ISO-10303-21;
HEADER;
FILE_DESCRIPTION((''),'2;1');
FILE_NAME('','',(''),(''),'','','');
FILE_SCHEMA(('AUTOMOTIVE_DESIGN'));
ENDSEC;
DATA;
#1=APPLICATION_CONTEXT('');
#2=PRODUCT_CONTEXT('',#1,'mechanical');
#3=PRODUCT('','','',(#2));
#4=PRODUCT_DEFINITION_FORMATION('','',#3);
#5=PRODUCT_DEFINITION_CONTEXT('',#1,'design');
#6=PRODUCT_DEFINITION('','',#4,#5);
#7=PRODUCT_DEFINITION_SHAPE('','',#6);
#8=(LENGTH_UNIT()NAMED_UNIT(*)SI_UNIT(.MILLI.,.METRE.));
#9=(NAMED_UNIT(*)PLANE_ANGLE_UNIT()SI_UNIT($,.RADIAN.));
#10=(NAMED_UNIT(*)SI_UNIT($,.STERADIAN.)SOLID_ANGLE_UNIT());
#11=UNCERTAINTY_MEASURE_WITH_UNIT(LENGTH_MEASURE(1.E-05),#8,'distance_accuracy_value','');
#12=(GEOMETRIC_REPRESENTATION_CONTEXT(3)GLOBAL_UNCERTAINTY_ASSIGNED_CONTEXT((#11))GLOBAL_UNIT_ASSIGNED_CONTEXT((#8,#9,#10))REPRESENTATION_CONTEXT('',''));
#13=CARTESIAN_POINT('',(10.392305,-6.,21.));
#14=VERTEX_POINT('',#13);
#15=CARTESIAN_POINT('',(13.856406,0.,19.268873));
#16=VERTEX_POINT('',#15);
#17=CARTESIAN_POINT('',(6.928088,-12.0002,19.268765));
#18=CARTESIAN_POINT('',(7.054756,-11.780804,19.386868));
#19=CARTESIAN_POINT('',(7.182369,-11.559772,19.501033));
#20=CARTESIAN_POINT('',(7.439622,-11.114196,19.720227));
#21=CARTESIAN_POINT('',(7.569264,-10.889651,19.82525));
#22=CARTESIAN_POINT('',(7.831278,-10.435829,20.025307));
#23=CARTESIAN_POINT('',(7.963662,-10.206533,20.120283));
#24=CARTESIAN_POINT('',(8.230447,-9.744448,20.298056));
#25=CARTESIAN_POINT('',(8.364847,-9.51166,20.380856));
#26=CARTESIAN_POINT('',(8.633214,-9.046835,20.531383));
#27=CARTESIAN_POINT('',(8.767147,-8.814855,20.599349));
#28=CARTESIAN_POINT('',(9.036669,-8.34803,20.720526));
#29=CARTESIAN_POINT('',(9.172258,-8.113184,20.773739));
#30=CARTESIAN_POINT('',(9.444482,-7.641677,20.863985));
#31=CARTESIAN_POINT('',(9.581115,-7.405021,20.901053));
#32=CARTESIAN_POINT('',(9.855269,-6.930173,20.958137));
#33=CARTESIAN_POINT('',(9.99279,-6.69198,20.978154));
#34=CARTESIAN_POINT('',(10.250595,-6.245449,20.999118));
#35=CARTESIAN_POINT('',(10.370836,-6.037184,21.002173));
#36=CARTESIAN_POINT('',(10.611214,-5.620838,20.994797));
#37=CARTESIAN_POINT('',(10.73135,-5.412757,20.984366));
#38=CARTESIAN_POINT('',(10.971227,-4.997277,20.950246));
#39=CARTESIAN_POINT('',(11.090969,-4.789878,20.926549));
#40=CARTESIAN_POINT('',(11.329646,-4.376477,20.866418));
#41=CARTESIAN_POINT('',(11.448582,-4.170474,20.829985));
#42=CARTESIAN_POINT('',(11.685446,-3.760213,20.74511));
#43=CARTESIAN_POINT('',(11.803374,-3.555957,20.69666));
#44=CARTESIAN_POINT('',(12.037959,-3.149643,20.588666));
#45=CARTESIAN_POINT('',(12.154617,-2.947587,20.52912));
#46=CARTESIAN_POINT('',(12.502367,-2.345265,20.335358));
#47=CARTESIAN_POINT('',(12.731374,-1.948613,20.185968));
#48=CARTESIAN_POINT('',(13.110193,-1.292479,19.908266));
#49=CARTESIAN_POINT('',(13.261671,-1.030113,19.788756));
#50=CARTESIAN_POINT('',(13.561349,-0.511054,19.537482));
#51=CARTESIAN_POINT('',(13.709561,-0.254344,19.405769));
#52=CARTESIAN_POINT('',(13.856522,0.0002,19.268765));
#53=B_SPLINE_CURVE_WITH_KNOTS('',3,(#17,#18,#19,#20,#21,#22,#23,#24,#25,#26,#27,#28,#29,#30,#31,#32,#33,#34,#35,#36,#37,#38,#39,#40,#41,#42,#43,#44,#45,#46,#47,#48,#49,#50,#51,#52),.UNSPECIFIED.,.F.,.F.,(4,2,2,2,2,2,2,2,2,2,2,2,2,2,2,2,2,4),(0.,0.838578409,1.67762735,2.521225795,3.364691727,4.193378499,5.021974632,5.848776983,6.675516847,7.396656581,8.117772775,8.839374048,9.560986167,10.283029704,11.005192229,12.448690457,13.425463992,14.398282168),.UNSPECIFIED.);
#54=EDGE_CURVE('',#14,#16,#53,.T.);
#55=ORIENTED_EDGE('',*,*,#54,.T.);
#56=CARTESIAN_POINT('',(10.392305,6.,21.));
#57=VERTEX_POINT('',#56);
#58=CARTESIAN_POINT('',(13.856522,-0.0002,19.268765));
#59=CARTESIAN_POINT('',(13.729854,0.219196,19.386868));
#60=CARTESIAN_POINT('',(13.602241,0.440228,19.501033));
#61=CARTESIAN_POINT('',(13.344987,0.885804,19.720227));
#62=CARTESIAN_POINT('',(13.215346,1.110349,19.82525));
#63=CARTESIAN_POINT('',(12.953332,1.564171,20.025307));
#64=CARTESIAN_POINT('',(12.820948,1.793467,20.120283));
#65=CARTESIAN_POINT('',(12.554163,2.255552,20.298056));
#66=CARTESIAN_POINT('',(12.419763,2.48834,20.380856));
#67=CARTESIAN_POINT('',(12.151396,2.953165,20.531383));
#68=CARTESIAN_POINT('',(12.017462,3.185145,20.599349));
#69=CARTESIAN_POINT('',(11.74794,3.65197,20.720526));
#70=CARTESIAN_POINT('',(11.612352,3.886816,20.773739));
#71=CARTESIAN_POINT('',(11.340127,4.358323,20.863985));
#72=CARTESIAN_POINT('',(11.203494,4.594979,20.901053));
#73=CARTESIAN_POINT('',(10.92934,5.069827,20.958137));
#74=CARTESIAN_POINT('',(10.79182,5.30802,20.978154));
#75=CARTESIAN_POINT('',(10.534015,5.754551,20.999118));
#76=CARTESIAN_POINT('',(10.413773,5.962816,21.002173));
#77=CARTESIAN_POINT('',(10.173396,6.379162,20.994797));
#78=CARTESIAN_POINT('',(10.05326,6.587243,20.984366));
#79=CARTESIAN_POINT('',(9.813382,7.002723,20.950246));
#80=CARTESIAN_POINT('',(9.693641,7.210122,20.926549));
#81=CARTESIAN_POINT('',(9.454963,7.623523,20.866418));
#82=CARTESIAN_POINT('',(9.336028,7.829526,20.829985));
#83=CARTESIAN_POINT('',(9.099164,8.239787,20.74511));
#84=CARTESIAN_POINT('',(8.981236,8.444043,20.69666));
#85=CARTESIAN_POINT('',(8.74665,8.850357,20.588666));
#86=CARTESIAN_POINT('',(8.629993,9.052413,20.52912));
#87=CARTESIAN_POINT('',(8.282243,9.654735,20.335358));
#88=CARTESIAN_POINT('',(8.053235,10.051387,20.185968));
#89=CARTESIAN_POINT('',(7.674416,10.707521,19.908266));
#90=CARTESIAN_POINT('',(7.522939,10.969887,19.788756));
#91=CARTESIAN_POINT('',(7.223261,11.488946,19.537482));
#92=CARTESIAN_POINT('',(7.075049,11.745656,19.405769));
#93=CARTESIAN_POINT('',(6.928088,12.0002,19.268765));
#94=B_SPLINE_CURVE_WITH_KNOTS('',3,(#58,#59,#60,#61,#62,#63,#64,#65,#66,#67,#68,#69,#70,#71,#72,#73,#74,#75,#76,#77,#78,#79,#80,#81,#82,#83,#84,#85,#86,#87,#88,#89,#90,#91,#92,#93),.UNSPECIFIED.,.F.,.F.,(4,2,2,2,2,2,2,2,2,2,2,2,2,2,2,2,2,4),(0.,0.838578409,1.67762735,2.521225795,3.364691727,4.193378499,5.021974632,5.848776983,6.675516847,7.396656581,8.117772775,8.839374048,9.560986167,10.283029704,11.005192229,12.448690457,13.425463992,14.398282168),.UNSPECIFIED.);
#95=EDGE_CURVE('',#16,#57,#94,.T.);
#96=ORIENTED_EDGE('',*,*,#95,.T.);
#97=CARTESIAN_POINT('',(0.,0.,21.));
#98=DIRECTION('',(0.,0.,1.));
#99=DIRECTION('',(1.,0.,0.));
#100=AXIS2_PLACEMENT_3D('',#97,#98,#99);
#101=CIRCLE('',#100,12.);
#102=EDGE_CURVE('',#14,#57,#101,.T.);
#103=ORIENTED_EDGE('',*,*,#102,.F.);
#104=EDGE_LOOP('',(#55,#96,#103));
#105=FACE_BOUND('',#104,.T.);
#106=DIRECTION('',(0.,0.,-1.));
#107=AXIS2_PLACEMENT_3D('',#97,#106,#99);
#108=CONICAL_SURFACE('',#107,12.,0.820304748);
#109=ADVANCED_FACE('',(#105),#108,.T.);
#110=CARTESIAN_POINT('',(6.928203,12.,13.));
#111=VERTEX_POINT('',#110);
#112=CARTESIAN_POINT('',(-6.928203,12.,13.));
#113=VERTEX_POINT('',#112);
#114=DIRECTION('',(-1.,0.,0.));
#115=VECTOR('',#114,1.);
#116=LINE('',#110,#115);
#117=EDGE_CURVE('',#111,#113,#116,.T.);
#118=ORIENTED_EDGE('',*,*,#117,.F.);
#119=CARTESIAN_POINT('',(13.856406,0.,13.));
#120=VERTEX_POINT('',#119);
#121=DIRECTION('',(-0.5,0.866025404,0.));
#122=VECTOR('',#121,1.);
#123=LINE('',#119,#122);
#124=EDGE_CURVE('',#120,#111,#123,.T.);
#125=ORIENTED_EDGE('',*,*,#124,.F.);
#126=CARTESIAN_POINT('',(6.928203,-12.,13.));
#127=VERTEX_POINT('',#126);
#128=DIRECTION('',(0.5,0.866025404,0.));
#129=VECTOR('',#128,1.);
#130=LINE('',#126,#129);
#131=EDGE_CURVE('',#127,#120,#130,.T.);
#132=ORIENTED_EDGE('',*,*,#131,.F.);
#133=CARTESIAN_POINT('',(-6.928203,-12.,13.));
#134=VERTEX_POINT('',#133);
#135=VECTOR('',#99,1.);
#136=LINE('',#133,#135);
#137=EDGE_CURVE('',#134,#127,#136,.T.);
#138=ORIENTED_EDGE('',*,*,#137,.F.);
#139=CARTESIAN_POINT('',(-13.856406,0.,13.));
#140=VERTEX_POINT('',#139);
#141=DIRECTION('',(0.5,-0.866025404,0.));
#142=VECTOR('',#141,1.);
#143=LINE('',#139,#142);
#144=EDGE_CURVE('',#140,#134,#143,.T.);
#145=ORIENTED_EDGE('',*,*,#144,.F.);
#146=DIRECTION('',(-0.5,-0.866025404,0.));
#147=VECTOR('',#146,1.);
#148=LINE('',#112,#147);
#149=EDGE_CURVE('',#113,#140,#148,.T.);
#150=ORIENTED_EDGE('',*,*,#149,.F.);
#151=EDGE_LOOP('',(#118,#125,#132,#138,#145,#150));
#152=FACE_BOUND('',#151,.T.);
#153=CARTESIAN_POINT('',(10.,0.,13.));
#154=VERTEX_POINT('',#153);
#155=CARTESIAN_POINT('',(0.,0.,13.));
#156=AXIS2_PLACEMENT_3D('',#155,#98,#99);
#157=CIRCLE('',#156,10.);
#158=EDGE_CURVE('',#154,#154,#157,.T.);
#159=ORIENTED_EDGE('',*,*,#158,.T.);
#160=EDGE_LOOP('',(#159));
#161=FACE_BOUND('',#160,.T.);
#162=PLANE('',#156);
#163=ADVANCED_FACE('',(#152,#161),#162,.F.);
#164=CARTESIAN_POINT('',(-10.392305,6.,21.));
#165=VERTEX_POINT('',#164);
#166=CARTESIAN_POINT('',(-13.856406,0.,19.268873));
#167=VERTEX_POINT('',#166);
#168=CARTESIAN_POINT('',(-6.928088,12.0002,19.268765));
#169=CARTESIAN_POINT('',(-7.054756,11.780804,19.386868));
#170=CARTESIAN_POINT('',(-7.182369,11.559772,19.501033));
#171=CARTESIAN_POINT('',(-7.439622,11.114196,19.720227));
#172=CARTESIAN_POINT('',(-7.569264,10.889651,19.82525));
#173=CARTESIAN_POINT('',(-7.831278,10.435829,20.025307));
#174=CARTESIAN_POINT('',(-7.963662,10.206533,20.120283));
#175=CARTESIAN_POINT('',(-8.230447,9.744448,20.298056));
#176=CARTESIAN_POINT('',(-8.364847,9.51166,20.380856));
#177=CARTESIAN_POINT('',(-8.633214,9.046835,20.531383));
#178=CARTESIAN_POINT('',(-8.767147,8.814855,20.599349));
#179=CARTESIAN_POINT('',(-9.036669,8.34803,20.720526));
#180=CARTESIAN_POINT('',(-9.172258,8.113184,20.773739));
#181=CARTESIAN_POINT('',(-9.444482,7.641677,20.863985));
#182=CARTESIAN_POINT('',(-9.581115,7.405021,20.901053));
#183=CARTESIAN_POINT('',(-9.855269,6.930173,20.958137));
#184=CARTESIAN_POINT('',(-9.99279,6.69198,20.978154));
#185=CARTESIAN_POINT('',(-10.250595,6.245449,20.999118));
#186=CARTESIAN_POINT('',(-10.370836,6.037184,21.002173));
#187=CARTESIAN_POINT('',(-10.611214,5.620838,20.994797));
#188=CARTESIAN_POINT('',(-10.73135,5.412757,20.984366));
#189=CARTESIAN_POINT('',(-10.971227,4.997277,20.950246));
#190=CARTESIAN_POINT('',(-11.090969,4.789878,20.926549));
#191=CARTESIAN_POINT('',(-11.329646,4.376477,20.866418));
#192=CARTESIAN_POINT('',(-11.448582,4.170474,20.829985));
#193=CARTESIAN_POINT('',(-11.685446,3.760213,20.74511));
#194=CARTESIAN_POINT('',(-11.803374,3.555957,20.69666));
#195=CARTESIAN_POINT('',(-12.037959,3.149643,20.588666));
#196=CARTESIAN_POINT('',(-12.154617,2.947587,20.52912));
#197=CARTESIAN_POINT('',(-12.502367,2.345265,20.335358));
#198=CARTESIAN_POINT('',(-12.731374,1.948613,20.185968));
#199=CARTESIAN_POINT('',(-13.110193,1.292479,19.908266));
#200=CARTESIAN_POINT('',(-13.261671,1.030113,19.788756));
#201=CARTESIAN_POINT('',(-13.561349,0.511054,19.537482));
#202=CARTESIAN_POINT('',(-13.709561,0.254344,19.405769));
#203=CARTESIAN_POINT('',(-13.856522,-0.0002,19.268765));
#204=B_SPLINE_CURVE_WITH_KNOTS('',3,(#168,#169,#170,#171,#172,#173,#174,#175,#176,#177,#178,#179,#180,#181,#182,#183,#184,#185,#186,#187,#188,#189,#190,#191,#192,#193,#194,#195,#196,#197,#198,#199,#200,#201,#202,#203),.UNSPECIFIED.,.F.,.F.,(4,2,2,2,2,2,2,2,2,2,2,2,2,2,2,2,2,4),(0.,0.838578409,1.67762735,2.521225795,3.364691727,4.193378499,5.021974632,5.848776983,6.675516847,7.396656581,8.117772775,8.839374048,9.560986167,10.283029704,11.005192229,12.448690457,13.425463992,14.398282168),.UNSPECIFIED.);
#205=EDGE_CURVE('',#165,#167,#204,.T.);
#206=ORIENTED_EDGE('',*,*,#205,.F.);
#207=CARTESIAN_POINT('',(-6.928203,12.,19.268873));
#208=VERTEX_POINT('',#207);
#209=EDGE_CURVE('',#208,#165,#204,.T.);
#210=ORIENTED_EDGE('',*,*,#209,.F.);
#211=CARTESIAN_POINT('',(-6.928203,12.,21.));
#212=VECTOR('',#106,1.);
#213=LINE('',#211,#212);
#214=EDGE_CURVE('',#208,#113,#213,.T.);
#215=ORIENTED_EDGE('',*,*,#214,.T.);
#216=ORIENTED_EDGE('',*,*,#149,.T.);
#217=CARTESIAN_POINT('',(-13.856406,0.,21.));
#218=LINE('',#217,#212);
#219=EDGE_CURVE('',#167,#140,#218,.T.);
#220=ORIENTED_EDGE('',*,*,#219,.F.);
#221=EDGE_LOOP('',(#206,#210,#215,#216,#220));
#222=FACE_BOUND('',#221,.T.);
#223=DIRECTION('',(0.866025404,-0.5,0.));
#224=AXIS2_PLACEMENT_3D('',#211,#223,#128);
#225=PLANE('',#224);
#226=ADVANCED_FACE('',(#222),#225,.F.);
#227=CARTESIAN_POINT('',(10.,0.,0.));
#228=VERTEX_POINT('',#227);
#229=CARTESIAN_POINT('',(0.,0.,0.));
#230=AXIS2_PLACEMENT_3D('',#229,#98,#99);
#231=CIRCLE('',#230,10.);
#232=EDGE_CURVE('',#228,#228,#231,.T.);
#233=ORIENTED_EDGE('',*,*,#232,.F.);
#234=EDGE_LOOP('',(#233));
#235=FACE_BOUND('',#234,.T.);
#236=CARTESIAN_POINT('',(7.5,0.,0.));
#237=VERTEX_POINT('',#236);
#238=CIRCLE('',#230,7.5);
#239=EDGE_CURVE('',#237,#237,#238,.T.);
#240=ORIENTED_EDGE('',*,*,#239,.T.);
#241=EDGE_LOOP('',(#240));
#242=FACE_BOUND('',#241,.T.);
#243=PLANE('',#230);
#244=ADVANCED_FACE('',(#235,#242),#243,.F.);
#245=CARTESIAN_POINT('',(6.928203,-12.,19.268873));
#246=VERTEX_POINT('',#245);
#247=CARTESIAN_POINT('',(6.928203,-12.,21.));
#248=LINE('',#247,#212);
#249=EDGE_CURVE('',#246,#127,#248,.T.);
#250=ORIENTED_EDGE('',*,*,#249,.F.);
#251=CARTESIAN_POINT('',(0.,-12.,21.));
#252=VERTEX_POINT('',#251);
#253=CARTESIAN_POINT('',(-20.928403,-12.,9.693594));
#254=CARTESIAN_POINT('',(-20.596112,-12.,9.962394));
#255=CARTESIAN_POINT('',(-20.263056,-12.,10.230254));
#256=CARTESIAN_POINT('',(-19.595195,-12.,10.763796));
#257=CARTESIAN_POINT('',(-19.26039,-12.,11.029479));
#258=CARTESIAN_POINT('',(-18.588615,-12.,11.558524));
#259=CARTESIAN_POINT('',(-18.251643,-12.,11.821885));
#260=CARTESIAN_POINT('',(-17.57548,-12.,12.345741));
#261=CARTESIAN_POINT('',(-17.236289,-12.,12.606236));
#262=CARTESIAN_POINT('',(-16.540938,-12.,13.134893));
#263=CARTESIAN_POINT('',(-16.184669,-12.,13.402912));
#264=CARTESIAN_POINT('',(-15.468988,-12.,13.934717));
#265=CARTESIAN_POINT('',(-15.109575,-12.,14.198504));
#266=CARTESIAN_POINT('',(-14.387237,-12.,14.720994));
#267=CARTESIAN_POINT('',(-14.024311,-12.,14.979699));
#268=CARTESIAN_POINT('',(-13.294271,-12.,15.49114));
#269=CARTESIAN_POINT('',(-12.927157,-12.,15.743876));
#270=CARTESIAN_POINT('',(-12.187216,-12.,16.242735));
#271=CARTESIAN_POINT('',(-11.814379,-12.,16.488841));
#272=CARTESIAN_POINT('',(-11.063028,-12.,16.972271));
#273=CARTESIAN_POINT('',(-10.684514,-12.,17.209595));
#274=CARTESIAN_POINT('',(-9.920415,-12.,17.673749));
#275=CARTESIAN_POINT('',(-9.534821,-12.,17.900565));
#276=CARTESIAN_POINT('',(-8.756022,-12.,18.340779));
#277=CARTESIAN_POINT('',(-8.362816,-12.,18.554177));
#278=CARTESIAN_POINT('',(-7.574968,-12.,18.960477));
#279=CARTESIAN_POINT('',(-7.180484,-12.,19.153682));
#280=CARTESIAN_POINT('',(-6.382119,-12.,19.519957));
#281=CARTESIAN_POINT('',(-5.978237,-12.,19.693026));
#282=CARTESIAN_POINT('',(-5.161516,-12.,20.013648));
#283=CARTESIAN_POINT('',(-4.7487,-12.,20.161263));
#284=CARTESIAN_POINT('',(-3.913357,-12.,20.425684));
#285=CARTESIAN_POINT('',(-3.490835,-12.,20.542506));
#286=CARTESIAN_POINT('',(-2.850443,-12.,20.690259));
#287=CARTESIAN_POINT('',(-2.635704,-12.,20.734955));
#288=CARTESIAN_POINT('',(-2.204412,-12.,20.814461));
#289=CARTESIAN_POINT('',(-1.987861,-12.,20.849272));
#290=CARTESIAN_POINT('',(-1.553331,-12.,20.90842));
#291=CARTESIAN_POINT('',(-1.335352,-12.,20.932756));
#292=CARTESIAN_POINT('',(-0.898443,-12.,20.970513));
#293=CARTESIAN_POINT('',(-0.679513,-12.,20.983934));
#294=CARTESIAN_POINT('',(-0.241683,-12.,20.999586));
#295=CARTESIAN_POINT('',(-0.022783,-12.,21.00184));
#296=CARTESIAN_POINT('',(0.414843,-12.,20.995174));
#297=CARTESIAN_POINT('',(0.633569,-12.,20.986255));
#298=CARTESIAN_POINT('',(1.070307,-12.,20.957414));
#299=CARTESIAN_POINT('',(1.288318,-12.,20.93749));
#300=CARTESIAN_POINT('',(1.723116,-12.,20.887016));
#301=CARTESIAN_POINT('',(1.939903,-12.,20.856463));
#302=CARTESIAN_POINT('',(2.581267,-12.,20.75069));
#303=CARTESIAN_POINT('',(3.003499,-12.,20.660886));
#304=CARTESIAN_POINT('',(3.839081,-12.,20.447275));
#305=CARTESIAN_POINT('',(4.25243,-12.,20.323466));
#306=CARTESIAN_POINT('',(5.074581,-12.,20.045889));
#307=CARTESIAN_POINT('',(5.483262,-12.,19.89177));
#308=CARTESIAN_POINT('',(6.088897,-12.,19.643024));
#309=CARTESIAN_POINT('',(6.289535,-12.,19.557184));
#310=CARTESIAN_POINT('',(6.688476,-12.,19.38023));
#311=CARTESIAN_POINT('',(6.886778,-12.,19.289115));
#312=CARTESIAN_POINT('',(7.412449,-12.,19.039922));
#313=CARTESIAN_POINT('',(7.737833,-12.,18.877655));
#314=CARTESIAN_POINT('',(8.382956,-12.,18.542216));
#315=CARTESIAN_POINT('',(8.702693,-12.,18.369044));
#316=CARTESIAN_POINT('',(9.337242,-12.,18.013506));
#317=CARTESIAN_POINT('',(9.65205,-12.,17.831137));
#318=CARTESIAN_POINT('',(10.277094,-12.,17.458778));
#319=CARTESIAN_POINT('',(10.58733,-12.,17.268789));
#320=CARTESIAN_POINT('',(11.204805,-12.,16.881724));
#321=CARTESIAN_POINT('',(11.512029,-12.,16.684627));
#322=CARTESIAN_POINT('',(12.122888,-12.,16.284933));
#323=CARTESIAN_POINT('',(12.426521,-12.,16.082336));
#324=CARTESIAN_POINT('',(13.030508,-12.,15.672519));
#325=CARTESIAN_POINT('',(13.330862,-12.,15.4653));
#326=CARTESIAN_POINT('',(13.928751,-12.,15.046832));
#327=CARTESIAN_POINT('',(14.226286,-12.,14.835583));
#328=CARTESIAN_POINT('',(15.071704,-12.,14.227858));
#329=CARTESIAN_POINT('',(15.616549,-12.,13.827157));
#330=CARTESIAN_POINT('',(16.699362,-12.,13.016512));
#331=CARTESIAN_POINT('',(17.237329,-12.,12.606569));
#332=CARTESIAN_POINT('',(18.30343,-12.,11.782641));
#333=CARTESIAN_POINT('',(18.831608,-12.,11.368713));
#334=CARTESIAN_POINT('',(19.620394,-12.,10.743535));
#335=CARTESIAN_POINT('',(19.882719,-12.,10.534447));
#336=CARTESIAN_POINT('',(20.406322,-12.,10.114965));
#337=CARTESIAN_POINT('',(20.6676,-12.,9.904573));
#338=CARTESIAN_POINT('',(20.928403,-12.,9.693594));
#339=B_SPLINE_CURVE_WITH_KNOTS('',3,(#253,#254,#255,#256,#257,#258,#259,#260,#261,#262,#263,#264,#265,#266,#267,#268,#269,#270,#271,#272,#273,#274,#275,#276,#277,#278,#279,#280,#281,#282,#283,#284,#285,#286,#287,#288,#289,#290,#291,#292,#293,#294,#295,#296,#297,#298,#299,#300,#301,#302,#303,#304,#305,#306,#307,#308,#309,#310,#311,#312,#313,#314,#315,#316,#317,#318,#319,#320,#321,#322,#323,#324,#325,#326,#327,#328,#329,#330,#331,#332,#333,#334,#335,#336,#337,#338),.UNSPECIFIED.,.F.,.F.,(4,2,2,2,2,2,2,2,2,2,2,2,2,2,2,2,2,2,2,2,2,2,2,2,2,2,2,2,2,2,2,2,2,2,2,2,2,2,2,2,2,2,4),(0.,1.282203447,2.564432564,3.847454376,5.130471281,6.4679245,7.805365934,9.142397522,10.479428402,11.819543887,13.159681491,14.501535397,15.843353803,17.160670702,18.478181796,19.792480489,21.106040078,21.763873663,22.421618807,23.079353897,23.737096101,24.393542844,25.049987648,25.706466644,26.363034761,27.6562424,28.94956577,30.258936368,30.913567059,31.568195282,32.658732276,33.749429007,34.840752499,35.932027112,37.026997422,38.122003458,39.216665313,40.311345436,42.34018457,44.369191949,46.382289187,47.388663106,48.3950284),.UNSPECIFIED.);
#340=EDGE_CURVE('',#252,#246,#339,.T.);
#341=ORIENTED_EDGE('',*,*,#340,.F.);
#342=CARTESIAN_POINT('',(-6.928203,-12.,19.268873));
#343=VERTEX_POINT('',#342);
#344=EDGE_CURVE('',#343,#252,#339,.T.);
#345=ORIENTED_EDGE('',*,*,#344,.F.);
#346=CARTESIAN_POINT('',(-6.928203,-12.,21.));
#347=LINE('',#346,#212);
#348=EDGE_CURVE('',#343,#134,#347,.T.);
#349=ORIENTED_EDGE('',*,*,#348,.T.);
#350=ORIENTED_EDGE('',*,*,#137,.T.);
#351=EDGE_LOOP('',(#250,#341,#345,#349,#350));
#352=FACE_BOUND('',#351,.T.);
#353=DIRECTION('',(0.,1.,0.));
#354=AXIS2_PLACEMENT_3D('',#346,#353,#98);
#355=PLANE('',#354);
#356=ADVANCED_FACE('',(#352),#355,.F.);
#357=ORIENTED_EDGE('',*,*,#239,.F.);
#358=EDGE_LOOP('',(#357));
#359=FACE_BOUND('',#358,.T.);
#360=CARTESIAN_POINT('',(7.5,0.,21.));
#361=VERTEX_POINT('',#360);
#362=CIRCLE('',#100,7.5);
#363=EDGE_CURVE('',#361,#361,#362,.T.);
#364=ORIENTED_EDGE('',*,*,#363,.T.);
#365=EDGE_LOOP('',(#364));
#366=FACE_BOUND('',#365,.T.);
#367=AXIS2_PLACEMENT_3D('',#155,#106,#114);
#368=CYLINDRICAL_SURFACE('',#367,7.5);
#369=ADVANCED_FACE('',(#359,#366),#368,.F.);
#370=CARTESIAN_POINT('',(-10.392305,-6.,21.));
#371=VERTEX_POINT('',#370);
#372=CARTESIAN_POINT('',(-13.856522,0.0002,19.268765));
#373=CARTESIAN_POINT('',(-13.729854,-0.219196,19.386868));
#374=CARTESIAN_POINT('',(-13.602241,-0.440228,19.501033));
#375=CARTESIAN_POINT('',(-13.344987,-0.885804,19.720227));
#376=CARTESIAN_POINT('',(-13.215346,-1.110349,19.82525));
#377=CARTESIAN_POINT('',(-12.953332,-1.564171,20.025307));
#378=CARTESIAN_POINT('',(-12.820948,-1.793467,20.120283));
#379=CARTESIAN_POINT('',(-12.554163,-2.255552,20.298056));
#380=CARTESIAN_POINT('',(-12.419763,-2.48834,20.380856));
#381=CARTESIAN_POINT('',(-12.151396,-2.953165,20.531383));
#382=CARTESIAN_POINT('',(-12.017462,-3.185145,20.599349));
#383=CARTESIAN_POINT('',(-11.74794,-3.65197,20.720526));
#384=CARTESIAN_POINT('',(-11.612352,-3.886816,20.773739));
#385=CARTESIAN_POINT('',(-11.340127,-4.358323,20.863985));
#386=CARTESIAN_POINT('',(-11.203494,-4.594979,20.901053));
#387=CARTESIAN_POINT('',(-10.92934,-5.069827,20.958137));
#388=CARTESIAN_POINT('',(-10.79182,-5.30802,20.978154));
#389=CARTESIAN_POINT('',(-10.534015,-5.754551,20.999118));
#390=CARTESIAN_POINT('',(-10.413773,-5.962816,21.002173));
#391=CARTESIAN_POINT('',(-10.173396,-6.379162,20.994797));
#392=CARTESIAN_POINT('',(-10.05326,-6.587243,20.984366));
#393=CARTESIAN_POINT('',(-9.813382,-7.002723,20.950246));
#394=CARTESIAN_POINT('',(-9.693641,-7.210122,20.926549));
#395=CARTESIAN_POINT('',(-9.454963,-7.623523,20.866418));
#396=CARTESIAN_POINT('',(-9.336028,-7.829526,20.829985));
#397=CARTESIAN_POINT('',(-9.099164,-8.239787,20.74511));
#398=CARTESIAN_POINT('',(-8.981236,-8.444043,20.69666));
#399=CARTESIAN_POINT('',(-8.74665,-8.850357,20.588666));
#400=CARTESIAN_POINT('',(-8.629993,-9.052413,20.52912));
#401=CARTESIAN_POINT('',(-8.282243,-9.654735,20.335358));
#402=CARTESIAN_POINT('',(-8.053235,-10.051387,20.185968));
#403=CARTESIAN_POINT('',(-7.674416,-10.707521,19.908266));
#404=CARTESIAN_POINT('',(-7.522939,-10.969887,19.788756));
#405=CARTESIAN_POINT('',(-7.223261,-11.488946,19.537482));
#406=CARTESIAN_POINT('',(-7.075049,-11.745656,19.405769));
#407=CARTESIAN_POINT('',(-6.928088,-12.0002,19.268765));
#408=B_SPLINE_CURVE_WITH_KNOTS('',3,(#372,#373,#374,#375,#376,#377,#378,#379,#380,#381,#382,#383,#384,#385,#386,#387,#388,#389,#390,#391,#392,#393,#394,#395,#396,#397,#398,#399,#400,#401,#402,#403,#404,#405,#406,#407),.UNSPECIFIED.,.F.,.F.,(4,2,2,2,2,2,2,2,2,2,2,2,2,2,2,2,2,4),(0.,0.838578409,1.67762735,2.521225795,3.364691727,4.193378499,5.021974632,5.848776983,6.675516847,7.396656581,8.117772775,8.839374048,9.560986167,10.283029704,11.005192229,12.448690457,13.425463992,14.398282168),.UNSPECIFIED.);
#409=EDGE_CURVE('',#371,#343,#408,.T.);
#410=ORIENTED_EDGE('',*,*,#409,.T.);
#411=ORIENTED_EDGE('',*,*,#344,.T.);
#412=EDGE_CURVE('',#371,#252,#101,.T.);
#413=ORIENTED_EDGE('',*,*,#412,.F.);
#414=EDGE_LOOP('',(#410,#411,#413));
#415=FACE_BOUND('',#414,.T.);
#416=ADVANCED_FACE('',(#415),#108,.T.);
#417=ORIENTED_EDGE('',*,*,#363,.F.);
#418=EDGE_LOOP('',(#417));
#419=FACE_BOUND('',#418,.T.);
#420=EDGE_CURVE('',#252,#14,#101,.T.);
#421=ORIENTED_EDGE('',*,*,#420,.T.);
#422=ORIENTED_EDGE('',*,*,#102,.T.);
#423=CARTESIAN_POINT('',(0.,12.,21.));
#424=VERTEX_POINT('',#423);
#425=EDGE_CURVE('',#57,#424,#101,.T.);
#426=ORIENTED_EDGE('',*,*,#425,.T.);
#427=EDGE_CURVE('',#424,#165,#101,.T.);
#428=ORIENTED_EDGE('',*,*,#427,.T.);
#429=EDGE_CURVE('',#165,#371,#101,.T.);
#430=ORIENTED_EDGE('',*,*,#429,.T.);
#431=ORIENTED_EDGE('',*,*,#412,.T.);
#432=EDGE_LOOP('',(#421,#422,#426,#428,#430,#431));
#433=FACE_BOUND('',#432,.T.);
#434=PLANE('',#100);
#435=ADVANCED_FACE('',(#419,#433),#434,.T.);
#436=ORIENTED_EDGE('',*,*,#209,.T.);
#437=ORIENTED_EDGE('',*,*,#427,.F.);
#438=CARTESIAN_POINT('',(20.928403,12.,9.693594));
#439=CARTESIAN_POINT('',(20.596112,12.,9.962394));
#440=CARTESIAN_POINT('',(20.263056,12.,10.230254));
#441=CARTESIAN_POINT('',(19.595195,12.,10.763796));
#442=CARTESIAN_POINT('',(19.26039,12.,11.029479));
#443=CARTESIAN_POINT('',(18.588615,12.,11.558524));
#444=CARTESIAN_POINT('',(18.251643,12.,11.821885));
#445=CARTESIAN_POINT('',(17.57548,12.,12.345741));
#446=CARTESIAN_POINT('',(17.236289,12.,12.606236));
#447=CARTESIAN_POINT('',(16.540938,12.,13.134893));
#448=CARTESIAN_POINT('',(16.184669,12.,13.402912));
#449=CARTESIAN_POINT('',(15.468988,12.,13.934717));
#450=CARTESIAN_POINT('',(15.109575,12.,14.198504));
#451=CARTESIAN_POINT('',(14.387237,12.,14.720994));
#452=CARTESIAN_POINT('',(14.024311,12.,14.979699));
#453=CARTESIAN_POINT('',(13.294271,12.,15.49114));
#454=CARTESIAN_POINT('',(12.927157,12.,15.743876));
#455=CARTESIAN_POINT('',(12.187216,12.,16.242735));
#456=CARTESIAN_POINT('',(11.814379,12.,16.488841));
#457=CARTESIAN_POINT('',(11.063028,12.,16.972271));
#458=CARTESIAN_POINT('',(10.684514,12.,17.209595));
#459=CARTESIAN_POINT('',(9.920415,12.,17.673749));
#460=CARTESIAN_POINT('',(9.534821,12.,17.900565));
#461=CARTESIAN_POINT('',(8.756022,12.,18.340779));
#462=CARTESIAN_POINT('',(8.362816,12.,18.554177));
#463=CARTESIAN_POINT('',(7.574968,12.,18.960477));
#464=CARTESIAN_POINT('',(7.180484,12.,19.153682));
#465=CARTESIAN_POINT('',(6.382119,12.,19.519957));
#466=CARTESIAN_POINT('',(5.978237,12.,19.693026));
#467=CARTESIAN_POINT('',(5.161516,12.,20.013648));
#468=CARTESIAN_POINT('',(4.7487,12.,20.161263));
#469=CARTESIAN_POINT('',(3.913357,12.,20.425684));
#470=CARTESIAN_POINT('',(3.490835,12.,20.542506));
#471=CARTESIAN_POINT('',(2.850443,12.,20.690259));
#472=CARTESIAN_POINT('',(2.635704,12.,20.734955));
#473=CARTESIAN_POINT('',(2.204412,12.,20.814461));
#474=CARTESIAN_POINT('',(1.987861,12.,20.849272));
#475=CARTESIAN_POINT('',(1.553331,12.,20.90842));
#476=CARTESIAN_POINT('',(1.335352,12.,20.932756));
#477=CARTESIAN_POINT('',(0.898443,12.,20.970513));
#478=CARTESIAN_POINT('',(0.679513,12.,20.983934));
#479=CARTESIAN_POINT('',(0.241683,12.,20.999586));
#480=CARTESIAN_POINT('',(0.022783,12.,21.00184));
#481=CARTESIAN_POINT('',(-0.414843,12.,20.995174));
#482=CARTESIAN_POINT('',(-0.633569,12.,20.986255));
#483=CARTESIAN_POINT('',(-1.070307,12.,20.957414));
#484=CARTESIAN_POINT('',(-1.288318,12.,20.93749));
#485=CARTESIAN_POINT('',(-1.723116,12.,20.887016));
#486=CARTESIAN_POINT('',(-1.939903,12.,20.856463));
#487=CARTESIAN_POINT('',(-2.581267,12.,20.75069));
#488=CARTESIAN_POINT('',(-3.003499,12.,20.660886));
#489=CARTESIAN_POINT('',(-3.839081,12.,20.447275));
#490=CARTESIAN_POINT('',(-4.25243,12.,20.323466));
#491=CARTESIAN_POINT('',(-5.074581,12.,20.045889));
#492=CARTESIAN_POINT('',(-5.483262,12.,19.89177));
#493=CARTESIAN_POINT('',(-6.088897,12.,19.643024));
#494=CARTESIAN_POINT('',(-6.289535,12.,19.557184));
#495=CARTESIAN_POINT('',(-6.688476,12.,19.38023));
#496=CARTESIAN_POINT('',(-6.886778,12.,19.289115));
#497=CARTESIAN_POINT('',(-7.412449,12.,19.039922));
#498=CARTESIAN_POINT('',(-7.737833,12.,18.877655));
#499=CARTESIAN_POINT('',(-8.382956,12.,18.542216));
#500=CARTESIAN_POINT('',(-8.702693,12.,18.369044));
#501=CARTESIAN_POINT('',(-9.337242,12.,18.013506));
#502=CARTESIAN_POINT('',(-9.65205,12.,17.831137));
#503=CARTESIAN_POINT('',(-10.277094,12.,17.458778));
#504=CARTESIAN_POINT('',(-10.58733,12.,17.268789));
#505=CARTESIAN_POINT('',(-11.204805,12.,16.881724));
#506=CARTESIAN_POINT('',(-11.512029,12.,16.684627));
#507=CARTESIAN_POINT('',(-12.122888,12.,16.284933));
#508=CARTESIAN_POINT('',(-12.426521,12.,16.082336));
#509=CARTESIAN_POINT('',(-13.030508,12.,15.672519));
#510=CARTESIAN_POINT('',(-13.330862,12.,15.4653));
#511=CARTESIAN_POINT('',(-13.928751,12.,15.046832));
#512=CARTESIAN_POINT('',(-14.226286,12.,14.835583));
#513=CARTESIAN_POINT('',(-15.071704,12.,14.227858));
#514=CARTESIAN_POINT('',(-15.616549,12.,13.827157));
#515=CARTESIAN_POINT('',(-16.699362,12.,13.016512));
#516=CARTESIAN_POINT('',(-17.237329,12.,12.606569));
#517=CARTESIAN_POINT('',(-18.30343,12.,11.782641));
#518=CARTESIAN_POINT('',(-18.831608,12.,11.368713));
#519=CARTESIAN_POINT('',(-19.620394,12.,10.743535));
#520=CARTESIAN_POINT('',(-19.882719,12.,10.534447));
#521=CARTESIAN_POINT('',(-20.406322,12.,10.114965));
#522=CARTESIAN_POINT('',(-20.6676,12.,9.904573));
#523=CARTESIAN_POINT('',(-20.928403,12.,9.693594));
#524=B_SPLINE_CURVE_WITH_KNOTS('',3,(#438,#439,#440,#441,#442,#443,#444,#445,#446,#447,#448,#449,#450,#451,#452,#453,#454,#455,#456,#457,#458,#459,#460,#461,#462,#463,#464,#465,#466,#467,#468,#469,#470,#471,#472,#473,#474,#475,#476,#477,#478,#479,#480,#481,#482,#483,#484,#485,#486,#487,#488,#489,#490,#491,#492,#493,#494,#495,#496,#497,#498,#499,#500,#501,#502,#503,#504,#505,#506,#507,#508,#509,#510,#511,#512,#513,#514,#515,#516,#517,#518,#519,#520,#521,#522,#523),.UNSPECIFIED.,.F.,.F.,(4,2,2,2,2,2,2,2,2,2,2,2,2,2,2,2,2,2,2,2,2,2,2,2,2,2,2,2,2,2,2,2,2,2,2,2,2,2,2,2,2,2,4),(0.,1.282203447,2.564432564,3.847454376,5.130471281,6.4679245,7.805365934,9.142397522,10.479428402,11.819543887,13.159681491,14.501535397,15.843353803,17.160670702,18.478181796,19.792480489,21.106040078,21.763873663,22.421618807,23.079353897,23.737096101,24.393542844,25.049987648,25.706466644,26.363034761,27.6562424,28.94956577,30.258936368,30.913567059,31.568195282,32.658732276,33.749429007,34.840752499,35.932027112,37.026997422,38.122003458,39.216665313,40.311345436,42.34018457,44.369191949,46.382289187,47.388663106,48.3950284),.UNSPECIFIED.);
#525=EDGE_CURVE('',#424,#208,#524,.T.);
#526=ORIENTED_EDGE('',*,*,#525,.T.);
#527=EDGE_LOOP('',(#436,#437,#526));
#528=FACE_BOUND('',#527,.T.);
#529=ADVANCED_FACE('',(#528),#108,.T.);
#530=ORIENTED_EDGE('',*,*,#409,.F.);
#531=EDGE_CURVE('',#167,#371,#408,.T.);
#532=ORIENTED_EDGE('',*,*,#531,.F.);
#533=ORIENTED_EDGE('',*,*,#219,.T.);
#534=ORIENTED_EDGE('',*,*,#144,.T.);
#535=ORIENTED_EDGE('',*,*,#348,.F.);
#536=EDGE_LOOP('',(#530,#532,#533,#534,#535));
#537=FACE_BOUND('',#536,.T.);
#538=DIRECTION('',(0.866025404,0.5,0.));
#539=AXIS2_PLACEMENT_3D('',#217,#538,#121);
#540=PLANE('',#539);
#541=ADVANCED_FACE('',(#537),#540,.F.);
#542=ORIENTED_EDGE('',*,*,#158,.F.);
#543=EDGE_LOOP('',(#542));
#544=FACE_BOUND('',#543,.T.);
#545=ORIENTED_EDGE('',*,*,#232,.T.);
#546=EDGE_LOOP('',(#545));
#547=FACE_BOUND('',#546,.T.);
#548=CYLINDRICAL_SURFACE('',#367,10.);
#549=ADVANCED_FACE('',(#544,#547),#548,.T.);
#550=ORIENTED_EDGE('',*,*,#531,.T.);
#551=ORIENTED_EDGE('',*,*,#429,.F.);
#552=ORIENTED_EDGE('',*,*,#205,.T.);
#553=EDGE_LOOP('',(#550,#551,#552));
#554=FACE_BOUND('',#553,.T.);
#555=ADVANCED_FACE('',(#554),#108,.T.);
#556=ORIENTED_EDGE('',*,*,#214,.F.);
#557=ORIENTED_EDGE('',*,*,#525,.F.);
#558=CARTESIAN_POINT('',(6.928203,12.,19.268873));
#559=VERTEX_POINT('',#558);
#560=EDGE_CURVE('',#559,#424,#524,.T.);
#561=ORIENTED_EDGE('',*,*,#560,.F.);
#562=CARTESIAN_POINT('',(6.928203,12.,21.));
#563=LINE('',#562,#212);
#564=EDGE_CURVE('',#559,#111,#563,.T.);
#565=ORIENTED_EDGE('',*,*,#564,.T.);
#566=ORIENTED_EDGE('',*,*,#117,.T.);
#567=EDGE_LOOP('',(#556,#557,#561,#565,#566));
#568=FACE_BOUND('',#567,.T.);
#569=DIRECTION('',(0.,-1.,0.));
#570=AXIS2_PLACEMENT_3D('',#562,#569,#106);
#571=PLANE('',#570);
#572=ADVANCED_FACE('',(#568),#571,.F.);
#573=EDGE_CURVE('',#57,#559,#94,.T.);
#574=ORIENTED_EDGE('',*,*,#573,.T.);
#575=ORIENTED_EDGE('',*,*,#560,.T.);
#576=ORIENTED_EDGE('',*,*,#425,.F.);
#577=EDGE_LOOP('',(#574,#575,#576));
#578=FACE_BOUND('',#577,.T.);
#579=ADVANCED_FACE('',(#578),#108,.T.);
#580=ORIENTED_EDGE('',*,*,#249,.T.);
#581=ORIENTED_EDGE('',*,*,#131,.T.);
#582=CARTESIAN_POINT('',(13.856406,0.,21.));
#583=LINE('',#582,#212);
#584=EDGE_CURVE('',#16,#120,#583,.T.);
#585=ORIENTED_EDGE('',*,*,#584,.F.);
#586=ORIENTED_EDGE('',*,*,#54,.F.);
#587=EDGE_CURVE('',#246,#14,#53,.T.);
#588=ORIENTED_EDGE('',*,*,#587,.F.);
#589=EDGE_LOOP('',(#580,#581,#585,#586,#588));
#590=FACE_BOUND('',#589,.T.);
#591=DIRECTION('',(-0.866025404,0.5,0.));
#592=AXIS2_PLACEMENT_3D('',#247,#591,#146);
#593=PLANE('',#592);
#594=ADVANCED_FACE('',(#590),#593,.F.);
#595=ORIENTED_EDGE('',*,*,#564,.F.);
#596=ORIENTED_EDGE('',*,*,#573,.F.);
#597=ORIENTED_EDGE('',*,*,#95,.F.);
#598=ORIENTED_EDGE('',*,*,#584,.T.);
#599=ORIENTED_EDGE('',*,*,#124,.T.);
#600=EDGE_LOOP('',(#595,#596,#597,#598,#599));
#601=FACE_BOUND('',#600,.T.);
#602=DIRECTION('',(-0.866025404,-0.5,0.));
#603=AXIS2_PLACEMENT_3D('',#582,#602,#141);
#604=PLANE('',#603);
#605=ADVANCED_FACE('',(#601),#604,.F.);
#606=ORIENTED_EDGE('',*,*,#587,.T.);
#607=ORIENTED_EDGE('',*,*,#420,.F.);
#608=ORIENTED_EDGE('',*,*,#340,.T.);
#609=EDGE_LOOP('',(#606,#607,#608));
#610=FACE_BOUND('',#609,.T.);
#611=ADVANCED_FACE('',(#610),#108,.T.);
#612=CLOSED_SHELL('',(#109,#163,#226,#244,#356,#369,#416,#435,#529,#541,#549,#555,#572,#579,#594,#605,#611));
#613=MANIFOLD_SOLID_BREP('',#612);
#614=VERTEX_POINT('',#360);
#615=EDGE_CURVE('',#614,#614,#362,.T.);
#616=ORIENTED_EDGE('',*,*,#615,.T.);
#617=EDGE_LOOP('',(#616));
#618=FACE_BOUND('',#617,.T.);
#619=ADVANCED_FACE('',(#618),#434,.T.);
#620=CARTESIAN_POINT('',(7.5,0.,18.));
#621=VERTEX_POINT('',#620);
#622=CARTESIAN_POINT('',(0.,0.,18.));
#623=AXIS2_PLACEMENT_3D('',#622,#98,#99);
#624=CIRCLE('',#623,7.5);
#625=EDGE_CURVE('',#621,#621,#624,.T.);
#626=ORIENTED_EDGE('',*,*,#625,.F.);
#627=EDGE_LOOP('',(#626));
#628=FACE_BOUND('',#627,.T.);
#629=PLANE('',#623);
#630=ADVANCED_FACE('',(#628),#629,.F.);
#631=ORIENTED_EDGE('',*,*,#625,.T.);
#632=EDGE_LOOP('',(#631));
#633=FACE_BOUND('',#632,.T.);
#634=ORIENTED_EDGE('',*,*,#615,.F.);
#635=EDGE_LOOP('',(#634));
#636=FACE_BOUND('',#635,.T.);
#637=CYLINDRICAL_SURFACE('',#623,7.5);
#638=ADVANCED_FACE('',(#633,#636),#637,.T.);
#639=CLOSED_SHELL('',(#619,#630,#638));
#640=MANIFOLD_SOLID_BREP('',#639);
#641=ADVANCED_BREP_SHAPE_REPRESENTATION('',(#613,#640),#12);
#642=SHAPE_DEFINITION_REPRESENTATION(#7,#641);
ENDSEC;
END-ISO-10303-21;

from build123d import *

# Parameters (mm, degrees)
SCHIZZO1_R                   = 10
SCHIZZO1_R_2                 = 7.5
ESTRUSIONE_ESTRUSIONE1_DEPTH = 13
SCHIZZO2_R                   = 7.5
ESTRUSIONE_ESTRUSIONE2_DEPTH = 8
SCHIZZO3_OUTSIDE_W           = 42.452
SCHIZZO3_OUTSIDE_H           = 38.74
SCHIZZO3_OUTSIDE_R           = 12
TAGLIO_ESTRUSIONE1_DEPTH     = 2
TAGLIO_ESTRUSIONE1_TAPER     = 47
SCHIZZO4_R                   = 7.5
ESTRUSIONE_ESTRUSIONE3_DEPTH = 3


with BuildPart() as part:
    # Schizzo1 → Estrusione-Estrusione1 (new body)
    with BuildSketch(Plane.XY):
        Circle(SCHIZZO1_R)
        Circle(SCHIZZO1_R_2, mode=Mode.SUBTRACT)
    extrude(amount=ESTRUSIONE_ESTRUSIONE1_DEPTH)

    # Schizzo2 → Estrusione-Estrusione2 (add)
    with BuildSketch(Plane.XY.offset(13)):
        Polygon((6.92820323, 12), (-6.92820323, 12), (-13.856406461, 0), (-6.92820323, -12), (6.92820323, -12), (13.856406461, 0), align=None)
        Circle(SCHIZZO2_R, mode=Mode.SUBTRACT)
    extrude(amount=ESTRUSIONE_ESTRUSIONE2_DEPTH)

    # Schizzo3 outside → Taglio-Estrusione1 (cut)
    with BuildSketch(Plane.XY.offset(21)):
        Rectangle(SCHIZZO3_OUTSIDE_W, SCHIZZO3_OUTSIDE_H)
        Circle(SCHIZZO3_OUTSIDE_R, mode=Mode.SUBTRACT)
    extrude(amount=-TAGLIO_ESTRUSIONE1_DEPTH, taper=TAGLIO_ESTRUSIONE1_TAPER, mode=Mode.SUBTRACT)


with BuildPart() as body_2:
    # Schizzo4 → Estrusione-Estrusione3 (new body)
    with BuildSketch(Plane.XY.offset(21)):
        Circle(SCHIZZO4_R)
    extrude(amount=-ESTRUSIONE_ESTRUSIONE3_DEPTH)


solid = Compound([part.part, body_2.part])
